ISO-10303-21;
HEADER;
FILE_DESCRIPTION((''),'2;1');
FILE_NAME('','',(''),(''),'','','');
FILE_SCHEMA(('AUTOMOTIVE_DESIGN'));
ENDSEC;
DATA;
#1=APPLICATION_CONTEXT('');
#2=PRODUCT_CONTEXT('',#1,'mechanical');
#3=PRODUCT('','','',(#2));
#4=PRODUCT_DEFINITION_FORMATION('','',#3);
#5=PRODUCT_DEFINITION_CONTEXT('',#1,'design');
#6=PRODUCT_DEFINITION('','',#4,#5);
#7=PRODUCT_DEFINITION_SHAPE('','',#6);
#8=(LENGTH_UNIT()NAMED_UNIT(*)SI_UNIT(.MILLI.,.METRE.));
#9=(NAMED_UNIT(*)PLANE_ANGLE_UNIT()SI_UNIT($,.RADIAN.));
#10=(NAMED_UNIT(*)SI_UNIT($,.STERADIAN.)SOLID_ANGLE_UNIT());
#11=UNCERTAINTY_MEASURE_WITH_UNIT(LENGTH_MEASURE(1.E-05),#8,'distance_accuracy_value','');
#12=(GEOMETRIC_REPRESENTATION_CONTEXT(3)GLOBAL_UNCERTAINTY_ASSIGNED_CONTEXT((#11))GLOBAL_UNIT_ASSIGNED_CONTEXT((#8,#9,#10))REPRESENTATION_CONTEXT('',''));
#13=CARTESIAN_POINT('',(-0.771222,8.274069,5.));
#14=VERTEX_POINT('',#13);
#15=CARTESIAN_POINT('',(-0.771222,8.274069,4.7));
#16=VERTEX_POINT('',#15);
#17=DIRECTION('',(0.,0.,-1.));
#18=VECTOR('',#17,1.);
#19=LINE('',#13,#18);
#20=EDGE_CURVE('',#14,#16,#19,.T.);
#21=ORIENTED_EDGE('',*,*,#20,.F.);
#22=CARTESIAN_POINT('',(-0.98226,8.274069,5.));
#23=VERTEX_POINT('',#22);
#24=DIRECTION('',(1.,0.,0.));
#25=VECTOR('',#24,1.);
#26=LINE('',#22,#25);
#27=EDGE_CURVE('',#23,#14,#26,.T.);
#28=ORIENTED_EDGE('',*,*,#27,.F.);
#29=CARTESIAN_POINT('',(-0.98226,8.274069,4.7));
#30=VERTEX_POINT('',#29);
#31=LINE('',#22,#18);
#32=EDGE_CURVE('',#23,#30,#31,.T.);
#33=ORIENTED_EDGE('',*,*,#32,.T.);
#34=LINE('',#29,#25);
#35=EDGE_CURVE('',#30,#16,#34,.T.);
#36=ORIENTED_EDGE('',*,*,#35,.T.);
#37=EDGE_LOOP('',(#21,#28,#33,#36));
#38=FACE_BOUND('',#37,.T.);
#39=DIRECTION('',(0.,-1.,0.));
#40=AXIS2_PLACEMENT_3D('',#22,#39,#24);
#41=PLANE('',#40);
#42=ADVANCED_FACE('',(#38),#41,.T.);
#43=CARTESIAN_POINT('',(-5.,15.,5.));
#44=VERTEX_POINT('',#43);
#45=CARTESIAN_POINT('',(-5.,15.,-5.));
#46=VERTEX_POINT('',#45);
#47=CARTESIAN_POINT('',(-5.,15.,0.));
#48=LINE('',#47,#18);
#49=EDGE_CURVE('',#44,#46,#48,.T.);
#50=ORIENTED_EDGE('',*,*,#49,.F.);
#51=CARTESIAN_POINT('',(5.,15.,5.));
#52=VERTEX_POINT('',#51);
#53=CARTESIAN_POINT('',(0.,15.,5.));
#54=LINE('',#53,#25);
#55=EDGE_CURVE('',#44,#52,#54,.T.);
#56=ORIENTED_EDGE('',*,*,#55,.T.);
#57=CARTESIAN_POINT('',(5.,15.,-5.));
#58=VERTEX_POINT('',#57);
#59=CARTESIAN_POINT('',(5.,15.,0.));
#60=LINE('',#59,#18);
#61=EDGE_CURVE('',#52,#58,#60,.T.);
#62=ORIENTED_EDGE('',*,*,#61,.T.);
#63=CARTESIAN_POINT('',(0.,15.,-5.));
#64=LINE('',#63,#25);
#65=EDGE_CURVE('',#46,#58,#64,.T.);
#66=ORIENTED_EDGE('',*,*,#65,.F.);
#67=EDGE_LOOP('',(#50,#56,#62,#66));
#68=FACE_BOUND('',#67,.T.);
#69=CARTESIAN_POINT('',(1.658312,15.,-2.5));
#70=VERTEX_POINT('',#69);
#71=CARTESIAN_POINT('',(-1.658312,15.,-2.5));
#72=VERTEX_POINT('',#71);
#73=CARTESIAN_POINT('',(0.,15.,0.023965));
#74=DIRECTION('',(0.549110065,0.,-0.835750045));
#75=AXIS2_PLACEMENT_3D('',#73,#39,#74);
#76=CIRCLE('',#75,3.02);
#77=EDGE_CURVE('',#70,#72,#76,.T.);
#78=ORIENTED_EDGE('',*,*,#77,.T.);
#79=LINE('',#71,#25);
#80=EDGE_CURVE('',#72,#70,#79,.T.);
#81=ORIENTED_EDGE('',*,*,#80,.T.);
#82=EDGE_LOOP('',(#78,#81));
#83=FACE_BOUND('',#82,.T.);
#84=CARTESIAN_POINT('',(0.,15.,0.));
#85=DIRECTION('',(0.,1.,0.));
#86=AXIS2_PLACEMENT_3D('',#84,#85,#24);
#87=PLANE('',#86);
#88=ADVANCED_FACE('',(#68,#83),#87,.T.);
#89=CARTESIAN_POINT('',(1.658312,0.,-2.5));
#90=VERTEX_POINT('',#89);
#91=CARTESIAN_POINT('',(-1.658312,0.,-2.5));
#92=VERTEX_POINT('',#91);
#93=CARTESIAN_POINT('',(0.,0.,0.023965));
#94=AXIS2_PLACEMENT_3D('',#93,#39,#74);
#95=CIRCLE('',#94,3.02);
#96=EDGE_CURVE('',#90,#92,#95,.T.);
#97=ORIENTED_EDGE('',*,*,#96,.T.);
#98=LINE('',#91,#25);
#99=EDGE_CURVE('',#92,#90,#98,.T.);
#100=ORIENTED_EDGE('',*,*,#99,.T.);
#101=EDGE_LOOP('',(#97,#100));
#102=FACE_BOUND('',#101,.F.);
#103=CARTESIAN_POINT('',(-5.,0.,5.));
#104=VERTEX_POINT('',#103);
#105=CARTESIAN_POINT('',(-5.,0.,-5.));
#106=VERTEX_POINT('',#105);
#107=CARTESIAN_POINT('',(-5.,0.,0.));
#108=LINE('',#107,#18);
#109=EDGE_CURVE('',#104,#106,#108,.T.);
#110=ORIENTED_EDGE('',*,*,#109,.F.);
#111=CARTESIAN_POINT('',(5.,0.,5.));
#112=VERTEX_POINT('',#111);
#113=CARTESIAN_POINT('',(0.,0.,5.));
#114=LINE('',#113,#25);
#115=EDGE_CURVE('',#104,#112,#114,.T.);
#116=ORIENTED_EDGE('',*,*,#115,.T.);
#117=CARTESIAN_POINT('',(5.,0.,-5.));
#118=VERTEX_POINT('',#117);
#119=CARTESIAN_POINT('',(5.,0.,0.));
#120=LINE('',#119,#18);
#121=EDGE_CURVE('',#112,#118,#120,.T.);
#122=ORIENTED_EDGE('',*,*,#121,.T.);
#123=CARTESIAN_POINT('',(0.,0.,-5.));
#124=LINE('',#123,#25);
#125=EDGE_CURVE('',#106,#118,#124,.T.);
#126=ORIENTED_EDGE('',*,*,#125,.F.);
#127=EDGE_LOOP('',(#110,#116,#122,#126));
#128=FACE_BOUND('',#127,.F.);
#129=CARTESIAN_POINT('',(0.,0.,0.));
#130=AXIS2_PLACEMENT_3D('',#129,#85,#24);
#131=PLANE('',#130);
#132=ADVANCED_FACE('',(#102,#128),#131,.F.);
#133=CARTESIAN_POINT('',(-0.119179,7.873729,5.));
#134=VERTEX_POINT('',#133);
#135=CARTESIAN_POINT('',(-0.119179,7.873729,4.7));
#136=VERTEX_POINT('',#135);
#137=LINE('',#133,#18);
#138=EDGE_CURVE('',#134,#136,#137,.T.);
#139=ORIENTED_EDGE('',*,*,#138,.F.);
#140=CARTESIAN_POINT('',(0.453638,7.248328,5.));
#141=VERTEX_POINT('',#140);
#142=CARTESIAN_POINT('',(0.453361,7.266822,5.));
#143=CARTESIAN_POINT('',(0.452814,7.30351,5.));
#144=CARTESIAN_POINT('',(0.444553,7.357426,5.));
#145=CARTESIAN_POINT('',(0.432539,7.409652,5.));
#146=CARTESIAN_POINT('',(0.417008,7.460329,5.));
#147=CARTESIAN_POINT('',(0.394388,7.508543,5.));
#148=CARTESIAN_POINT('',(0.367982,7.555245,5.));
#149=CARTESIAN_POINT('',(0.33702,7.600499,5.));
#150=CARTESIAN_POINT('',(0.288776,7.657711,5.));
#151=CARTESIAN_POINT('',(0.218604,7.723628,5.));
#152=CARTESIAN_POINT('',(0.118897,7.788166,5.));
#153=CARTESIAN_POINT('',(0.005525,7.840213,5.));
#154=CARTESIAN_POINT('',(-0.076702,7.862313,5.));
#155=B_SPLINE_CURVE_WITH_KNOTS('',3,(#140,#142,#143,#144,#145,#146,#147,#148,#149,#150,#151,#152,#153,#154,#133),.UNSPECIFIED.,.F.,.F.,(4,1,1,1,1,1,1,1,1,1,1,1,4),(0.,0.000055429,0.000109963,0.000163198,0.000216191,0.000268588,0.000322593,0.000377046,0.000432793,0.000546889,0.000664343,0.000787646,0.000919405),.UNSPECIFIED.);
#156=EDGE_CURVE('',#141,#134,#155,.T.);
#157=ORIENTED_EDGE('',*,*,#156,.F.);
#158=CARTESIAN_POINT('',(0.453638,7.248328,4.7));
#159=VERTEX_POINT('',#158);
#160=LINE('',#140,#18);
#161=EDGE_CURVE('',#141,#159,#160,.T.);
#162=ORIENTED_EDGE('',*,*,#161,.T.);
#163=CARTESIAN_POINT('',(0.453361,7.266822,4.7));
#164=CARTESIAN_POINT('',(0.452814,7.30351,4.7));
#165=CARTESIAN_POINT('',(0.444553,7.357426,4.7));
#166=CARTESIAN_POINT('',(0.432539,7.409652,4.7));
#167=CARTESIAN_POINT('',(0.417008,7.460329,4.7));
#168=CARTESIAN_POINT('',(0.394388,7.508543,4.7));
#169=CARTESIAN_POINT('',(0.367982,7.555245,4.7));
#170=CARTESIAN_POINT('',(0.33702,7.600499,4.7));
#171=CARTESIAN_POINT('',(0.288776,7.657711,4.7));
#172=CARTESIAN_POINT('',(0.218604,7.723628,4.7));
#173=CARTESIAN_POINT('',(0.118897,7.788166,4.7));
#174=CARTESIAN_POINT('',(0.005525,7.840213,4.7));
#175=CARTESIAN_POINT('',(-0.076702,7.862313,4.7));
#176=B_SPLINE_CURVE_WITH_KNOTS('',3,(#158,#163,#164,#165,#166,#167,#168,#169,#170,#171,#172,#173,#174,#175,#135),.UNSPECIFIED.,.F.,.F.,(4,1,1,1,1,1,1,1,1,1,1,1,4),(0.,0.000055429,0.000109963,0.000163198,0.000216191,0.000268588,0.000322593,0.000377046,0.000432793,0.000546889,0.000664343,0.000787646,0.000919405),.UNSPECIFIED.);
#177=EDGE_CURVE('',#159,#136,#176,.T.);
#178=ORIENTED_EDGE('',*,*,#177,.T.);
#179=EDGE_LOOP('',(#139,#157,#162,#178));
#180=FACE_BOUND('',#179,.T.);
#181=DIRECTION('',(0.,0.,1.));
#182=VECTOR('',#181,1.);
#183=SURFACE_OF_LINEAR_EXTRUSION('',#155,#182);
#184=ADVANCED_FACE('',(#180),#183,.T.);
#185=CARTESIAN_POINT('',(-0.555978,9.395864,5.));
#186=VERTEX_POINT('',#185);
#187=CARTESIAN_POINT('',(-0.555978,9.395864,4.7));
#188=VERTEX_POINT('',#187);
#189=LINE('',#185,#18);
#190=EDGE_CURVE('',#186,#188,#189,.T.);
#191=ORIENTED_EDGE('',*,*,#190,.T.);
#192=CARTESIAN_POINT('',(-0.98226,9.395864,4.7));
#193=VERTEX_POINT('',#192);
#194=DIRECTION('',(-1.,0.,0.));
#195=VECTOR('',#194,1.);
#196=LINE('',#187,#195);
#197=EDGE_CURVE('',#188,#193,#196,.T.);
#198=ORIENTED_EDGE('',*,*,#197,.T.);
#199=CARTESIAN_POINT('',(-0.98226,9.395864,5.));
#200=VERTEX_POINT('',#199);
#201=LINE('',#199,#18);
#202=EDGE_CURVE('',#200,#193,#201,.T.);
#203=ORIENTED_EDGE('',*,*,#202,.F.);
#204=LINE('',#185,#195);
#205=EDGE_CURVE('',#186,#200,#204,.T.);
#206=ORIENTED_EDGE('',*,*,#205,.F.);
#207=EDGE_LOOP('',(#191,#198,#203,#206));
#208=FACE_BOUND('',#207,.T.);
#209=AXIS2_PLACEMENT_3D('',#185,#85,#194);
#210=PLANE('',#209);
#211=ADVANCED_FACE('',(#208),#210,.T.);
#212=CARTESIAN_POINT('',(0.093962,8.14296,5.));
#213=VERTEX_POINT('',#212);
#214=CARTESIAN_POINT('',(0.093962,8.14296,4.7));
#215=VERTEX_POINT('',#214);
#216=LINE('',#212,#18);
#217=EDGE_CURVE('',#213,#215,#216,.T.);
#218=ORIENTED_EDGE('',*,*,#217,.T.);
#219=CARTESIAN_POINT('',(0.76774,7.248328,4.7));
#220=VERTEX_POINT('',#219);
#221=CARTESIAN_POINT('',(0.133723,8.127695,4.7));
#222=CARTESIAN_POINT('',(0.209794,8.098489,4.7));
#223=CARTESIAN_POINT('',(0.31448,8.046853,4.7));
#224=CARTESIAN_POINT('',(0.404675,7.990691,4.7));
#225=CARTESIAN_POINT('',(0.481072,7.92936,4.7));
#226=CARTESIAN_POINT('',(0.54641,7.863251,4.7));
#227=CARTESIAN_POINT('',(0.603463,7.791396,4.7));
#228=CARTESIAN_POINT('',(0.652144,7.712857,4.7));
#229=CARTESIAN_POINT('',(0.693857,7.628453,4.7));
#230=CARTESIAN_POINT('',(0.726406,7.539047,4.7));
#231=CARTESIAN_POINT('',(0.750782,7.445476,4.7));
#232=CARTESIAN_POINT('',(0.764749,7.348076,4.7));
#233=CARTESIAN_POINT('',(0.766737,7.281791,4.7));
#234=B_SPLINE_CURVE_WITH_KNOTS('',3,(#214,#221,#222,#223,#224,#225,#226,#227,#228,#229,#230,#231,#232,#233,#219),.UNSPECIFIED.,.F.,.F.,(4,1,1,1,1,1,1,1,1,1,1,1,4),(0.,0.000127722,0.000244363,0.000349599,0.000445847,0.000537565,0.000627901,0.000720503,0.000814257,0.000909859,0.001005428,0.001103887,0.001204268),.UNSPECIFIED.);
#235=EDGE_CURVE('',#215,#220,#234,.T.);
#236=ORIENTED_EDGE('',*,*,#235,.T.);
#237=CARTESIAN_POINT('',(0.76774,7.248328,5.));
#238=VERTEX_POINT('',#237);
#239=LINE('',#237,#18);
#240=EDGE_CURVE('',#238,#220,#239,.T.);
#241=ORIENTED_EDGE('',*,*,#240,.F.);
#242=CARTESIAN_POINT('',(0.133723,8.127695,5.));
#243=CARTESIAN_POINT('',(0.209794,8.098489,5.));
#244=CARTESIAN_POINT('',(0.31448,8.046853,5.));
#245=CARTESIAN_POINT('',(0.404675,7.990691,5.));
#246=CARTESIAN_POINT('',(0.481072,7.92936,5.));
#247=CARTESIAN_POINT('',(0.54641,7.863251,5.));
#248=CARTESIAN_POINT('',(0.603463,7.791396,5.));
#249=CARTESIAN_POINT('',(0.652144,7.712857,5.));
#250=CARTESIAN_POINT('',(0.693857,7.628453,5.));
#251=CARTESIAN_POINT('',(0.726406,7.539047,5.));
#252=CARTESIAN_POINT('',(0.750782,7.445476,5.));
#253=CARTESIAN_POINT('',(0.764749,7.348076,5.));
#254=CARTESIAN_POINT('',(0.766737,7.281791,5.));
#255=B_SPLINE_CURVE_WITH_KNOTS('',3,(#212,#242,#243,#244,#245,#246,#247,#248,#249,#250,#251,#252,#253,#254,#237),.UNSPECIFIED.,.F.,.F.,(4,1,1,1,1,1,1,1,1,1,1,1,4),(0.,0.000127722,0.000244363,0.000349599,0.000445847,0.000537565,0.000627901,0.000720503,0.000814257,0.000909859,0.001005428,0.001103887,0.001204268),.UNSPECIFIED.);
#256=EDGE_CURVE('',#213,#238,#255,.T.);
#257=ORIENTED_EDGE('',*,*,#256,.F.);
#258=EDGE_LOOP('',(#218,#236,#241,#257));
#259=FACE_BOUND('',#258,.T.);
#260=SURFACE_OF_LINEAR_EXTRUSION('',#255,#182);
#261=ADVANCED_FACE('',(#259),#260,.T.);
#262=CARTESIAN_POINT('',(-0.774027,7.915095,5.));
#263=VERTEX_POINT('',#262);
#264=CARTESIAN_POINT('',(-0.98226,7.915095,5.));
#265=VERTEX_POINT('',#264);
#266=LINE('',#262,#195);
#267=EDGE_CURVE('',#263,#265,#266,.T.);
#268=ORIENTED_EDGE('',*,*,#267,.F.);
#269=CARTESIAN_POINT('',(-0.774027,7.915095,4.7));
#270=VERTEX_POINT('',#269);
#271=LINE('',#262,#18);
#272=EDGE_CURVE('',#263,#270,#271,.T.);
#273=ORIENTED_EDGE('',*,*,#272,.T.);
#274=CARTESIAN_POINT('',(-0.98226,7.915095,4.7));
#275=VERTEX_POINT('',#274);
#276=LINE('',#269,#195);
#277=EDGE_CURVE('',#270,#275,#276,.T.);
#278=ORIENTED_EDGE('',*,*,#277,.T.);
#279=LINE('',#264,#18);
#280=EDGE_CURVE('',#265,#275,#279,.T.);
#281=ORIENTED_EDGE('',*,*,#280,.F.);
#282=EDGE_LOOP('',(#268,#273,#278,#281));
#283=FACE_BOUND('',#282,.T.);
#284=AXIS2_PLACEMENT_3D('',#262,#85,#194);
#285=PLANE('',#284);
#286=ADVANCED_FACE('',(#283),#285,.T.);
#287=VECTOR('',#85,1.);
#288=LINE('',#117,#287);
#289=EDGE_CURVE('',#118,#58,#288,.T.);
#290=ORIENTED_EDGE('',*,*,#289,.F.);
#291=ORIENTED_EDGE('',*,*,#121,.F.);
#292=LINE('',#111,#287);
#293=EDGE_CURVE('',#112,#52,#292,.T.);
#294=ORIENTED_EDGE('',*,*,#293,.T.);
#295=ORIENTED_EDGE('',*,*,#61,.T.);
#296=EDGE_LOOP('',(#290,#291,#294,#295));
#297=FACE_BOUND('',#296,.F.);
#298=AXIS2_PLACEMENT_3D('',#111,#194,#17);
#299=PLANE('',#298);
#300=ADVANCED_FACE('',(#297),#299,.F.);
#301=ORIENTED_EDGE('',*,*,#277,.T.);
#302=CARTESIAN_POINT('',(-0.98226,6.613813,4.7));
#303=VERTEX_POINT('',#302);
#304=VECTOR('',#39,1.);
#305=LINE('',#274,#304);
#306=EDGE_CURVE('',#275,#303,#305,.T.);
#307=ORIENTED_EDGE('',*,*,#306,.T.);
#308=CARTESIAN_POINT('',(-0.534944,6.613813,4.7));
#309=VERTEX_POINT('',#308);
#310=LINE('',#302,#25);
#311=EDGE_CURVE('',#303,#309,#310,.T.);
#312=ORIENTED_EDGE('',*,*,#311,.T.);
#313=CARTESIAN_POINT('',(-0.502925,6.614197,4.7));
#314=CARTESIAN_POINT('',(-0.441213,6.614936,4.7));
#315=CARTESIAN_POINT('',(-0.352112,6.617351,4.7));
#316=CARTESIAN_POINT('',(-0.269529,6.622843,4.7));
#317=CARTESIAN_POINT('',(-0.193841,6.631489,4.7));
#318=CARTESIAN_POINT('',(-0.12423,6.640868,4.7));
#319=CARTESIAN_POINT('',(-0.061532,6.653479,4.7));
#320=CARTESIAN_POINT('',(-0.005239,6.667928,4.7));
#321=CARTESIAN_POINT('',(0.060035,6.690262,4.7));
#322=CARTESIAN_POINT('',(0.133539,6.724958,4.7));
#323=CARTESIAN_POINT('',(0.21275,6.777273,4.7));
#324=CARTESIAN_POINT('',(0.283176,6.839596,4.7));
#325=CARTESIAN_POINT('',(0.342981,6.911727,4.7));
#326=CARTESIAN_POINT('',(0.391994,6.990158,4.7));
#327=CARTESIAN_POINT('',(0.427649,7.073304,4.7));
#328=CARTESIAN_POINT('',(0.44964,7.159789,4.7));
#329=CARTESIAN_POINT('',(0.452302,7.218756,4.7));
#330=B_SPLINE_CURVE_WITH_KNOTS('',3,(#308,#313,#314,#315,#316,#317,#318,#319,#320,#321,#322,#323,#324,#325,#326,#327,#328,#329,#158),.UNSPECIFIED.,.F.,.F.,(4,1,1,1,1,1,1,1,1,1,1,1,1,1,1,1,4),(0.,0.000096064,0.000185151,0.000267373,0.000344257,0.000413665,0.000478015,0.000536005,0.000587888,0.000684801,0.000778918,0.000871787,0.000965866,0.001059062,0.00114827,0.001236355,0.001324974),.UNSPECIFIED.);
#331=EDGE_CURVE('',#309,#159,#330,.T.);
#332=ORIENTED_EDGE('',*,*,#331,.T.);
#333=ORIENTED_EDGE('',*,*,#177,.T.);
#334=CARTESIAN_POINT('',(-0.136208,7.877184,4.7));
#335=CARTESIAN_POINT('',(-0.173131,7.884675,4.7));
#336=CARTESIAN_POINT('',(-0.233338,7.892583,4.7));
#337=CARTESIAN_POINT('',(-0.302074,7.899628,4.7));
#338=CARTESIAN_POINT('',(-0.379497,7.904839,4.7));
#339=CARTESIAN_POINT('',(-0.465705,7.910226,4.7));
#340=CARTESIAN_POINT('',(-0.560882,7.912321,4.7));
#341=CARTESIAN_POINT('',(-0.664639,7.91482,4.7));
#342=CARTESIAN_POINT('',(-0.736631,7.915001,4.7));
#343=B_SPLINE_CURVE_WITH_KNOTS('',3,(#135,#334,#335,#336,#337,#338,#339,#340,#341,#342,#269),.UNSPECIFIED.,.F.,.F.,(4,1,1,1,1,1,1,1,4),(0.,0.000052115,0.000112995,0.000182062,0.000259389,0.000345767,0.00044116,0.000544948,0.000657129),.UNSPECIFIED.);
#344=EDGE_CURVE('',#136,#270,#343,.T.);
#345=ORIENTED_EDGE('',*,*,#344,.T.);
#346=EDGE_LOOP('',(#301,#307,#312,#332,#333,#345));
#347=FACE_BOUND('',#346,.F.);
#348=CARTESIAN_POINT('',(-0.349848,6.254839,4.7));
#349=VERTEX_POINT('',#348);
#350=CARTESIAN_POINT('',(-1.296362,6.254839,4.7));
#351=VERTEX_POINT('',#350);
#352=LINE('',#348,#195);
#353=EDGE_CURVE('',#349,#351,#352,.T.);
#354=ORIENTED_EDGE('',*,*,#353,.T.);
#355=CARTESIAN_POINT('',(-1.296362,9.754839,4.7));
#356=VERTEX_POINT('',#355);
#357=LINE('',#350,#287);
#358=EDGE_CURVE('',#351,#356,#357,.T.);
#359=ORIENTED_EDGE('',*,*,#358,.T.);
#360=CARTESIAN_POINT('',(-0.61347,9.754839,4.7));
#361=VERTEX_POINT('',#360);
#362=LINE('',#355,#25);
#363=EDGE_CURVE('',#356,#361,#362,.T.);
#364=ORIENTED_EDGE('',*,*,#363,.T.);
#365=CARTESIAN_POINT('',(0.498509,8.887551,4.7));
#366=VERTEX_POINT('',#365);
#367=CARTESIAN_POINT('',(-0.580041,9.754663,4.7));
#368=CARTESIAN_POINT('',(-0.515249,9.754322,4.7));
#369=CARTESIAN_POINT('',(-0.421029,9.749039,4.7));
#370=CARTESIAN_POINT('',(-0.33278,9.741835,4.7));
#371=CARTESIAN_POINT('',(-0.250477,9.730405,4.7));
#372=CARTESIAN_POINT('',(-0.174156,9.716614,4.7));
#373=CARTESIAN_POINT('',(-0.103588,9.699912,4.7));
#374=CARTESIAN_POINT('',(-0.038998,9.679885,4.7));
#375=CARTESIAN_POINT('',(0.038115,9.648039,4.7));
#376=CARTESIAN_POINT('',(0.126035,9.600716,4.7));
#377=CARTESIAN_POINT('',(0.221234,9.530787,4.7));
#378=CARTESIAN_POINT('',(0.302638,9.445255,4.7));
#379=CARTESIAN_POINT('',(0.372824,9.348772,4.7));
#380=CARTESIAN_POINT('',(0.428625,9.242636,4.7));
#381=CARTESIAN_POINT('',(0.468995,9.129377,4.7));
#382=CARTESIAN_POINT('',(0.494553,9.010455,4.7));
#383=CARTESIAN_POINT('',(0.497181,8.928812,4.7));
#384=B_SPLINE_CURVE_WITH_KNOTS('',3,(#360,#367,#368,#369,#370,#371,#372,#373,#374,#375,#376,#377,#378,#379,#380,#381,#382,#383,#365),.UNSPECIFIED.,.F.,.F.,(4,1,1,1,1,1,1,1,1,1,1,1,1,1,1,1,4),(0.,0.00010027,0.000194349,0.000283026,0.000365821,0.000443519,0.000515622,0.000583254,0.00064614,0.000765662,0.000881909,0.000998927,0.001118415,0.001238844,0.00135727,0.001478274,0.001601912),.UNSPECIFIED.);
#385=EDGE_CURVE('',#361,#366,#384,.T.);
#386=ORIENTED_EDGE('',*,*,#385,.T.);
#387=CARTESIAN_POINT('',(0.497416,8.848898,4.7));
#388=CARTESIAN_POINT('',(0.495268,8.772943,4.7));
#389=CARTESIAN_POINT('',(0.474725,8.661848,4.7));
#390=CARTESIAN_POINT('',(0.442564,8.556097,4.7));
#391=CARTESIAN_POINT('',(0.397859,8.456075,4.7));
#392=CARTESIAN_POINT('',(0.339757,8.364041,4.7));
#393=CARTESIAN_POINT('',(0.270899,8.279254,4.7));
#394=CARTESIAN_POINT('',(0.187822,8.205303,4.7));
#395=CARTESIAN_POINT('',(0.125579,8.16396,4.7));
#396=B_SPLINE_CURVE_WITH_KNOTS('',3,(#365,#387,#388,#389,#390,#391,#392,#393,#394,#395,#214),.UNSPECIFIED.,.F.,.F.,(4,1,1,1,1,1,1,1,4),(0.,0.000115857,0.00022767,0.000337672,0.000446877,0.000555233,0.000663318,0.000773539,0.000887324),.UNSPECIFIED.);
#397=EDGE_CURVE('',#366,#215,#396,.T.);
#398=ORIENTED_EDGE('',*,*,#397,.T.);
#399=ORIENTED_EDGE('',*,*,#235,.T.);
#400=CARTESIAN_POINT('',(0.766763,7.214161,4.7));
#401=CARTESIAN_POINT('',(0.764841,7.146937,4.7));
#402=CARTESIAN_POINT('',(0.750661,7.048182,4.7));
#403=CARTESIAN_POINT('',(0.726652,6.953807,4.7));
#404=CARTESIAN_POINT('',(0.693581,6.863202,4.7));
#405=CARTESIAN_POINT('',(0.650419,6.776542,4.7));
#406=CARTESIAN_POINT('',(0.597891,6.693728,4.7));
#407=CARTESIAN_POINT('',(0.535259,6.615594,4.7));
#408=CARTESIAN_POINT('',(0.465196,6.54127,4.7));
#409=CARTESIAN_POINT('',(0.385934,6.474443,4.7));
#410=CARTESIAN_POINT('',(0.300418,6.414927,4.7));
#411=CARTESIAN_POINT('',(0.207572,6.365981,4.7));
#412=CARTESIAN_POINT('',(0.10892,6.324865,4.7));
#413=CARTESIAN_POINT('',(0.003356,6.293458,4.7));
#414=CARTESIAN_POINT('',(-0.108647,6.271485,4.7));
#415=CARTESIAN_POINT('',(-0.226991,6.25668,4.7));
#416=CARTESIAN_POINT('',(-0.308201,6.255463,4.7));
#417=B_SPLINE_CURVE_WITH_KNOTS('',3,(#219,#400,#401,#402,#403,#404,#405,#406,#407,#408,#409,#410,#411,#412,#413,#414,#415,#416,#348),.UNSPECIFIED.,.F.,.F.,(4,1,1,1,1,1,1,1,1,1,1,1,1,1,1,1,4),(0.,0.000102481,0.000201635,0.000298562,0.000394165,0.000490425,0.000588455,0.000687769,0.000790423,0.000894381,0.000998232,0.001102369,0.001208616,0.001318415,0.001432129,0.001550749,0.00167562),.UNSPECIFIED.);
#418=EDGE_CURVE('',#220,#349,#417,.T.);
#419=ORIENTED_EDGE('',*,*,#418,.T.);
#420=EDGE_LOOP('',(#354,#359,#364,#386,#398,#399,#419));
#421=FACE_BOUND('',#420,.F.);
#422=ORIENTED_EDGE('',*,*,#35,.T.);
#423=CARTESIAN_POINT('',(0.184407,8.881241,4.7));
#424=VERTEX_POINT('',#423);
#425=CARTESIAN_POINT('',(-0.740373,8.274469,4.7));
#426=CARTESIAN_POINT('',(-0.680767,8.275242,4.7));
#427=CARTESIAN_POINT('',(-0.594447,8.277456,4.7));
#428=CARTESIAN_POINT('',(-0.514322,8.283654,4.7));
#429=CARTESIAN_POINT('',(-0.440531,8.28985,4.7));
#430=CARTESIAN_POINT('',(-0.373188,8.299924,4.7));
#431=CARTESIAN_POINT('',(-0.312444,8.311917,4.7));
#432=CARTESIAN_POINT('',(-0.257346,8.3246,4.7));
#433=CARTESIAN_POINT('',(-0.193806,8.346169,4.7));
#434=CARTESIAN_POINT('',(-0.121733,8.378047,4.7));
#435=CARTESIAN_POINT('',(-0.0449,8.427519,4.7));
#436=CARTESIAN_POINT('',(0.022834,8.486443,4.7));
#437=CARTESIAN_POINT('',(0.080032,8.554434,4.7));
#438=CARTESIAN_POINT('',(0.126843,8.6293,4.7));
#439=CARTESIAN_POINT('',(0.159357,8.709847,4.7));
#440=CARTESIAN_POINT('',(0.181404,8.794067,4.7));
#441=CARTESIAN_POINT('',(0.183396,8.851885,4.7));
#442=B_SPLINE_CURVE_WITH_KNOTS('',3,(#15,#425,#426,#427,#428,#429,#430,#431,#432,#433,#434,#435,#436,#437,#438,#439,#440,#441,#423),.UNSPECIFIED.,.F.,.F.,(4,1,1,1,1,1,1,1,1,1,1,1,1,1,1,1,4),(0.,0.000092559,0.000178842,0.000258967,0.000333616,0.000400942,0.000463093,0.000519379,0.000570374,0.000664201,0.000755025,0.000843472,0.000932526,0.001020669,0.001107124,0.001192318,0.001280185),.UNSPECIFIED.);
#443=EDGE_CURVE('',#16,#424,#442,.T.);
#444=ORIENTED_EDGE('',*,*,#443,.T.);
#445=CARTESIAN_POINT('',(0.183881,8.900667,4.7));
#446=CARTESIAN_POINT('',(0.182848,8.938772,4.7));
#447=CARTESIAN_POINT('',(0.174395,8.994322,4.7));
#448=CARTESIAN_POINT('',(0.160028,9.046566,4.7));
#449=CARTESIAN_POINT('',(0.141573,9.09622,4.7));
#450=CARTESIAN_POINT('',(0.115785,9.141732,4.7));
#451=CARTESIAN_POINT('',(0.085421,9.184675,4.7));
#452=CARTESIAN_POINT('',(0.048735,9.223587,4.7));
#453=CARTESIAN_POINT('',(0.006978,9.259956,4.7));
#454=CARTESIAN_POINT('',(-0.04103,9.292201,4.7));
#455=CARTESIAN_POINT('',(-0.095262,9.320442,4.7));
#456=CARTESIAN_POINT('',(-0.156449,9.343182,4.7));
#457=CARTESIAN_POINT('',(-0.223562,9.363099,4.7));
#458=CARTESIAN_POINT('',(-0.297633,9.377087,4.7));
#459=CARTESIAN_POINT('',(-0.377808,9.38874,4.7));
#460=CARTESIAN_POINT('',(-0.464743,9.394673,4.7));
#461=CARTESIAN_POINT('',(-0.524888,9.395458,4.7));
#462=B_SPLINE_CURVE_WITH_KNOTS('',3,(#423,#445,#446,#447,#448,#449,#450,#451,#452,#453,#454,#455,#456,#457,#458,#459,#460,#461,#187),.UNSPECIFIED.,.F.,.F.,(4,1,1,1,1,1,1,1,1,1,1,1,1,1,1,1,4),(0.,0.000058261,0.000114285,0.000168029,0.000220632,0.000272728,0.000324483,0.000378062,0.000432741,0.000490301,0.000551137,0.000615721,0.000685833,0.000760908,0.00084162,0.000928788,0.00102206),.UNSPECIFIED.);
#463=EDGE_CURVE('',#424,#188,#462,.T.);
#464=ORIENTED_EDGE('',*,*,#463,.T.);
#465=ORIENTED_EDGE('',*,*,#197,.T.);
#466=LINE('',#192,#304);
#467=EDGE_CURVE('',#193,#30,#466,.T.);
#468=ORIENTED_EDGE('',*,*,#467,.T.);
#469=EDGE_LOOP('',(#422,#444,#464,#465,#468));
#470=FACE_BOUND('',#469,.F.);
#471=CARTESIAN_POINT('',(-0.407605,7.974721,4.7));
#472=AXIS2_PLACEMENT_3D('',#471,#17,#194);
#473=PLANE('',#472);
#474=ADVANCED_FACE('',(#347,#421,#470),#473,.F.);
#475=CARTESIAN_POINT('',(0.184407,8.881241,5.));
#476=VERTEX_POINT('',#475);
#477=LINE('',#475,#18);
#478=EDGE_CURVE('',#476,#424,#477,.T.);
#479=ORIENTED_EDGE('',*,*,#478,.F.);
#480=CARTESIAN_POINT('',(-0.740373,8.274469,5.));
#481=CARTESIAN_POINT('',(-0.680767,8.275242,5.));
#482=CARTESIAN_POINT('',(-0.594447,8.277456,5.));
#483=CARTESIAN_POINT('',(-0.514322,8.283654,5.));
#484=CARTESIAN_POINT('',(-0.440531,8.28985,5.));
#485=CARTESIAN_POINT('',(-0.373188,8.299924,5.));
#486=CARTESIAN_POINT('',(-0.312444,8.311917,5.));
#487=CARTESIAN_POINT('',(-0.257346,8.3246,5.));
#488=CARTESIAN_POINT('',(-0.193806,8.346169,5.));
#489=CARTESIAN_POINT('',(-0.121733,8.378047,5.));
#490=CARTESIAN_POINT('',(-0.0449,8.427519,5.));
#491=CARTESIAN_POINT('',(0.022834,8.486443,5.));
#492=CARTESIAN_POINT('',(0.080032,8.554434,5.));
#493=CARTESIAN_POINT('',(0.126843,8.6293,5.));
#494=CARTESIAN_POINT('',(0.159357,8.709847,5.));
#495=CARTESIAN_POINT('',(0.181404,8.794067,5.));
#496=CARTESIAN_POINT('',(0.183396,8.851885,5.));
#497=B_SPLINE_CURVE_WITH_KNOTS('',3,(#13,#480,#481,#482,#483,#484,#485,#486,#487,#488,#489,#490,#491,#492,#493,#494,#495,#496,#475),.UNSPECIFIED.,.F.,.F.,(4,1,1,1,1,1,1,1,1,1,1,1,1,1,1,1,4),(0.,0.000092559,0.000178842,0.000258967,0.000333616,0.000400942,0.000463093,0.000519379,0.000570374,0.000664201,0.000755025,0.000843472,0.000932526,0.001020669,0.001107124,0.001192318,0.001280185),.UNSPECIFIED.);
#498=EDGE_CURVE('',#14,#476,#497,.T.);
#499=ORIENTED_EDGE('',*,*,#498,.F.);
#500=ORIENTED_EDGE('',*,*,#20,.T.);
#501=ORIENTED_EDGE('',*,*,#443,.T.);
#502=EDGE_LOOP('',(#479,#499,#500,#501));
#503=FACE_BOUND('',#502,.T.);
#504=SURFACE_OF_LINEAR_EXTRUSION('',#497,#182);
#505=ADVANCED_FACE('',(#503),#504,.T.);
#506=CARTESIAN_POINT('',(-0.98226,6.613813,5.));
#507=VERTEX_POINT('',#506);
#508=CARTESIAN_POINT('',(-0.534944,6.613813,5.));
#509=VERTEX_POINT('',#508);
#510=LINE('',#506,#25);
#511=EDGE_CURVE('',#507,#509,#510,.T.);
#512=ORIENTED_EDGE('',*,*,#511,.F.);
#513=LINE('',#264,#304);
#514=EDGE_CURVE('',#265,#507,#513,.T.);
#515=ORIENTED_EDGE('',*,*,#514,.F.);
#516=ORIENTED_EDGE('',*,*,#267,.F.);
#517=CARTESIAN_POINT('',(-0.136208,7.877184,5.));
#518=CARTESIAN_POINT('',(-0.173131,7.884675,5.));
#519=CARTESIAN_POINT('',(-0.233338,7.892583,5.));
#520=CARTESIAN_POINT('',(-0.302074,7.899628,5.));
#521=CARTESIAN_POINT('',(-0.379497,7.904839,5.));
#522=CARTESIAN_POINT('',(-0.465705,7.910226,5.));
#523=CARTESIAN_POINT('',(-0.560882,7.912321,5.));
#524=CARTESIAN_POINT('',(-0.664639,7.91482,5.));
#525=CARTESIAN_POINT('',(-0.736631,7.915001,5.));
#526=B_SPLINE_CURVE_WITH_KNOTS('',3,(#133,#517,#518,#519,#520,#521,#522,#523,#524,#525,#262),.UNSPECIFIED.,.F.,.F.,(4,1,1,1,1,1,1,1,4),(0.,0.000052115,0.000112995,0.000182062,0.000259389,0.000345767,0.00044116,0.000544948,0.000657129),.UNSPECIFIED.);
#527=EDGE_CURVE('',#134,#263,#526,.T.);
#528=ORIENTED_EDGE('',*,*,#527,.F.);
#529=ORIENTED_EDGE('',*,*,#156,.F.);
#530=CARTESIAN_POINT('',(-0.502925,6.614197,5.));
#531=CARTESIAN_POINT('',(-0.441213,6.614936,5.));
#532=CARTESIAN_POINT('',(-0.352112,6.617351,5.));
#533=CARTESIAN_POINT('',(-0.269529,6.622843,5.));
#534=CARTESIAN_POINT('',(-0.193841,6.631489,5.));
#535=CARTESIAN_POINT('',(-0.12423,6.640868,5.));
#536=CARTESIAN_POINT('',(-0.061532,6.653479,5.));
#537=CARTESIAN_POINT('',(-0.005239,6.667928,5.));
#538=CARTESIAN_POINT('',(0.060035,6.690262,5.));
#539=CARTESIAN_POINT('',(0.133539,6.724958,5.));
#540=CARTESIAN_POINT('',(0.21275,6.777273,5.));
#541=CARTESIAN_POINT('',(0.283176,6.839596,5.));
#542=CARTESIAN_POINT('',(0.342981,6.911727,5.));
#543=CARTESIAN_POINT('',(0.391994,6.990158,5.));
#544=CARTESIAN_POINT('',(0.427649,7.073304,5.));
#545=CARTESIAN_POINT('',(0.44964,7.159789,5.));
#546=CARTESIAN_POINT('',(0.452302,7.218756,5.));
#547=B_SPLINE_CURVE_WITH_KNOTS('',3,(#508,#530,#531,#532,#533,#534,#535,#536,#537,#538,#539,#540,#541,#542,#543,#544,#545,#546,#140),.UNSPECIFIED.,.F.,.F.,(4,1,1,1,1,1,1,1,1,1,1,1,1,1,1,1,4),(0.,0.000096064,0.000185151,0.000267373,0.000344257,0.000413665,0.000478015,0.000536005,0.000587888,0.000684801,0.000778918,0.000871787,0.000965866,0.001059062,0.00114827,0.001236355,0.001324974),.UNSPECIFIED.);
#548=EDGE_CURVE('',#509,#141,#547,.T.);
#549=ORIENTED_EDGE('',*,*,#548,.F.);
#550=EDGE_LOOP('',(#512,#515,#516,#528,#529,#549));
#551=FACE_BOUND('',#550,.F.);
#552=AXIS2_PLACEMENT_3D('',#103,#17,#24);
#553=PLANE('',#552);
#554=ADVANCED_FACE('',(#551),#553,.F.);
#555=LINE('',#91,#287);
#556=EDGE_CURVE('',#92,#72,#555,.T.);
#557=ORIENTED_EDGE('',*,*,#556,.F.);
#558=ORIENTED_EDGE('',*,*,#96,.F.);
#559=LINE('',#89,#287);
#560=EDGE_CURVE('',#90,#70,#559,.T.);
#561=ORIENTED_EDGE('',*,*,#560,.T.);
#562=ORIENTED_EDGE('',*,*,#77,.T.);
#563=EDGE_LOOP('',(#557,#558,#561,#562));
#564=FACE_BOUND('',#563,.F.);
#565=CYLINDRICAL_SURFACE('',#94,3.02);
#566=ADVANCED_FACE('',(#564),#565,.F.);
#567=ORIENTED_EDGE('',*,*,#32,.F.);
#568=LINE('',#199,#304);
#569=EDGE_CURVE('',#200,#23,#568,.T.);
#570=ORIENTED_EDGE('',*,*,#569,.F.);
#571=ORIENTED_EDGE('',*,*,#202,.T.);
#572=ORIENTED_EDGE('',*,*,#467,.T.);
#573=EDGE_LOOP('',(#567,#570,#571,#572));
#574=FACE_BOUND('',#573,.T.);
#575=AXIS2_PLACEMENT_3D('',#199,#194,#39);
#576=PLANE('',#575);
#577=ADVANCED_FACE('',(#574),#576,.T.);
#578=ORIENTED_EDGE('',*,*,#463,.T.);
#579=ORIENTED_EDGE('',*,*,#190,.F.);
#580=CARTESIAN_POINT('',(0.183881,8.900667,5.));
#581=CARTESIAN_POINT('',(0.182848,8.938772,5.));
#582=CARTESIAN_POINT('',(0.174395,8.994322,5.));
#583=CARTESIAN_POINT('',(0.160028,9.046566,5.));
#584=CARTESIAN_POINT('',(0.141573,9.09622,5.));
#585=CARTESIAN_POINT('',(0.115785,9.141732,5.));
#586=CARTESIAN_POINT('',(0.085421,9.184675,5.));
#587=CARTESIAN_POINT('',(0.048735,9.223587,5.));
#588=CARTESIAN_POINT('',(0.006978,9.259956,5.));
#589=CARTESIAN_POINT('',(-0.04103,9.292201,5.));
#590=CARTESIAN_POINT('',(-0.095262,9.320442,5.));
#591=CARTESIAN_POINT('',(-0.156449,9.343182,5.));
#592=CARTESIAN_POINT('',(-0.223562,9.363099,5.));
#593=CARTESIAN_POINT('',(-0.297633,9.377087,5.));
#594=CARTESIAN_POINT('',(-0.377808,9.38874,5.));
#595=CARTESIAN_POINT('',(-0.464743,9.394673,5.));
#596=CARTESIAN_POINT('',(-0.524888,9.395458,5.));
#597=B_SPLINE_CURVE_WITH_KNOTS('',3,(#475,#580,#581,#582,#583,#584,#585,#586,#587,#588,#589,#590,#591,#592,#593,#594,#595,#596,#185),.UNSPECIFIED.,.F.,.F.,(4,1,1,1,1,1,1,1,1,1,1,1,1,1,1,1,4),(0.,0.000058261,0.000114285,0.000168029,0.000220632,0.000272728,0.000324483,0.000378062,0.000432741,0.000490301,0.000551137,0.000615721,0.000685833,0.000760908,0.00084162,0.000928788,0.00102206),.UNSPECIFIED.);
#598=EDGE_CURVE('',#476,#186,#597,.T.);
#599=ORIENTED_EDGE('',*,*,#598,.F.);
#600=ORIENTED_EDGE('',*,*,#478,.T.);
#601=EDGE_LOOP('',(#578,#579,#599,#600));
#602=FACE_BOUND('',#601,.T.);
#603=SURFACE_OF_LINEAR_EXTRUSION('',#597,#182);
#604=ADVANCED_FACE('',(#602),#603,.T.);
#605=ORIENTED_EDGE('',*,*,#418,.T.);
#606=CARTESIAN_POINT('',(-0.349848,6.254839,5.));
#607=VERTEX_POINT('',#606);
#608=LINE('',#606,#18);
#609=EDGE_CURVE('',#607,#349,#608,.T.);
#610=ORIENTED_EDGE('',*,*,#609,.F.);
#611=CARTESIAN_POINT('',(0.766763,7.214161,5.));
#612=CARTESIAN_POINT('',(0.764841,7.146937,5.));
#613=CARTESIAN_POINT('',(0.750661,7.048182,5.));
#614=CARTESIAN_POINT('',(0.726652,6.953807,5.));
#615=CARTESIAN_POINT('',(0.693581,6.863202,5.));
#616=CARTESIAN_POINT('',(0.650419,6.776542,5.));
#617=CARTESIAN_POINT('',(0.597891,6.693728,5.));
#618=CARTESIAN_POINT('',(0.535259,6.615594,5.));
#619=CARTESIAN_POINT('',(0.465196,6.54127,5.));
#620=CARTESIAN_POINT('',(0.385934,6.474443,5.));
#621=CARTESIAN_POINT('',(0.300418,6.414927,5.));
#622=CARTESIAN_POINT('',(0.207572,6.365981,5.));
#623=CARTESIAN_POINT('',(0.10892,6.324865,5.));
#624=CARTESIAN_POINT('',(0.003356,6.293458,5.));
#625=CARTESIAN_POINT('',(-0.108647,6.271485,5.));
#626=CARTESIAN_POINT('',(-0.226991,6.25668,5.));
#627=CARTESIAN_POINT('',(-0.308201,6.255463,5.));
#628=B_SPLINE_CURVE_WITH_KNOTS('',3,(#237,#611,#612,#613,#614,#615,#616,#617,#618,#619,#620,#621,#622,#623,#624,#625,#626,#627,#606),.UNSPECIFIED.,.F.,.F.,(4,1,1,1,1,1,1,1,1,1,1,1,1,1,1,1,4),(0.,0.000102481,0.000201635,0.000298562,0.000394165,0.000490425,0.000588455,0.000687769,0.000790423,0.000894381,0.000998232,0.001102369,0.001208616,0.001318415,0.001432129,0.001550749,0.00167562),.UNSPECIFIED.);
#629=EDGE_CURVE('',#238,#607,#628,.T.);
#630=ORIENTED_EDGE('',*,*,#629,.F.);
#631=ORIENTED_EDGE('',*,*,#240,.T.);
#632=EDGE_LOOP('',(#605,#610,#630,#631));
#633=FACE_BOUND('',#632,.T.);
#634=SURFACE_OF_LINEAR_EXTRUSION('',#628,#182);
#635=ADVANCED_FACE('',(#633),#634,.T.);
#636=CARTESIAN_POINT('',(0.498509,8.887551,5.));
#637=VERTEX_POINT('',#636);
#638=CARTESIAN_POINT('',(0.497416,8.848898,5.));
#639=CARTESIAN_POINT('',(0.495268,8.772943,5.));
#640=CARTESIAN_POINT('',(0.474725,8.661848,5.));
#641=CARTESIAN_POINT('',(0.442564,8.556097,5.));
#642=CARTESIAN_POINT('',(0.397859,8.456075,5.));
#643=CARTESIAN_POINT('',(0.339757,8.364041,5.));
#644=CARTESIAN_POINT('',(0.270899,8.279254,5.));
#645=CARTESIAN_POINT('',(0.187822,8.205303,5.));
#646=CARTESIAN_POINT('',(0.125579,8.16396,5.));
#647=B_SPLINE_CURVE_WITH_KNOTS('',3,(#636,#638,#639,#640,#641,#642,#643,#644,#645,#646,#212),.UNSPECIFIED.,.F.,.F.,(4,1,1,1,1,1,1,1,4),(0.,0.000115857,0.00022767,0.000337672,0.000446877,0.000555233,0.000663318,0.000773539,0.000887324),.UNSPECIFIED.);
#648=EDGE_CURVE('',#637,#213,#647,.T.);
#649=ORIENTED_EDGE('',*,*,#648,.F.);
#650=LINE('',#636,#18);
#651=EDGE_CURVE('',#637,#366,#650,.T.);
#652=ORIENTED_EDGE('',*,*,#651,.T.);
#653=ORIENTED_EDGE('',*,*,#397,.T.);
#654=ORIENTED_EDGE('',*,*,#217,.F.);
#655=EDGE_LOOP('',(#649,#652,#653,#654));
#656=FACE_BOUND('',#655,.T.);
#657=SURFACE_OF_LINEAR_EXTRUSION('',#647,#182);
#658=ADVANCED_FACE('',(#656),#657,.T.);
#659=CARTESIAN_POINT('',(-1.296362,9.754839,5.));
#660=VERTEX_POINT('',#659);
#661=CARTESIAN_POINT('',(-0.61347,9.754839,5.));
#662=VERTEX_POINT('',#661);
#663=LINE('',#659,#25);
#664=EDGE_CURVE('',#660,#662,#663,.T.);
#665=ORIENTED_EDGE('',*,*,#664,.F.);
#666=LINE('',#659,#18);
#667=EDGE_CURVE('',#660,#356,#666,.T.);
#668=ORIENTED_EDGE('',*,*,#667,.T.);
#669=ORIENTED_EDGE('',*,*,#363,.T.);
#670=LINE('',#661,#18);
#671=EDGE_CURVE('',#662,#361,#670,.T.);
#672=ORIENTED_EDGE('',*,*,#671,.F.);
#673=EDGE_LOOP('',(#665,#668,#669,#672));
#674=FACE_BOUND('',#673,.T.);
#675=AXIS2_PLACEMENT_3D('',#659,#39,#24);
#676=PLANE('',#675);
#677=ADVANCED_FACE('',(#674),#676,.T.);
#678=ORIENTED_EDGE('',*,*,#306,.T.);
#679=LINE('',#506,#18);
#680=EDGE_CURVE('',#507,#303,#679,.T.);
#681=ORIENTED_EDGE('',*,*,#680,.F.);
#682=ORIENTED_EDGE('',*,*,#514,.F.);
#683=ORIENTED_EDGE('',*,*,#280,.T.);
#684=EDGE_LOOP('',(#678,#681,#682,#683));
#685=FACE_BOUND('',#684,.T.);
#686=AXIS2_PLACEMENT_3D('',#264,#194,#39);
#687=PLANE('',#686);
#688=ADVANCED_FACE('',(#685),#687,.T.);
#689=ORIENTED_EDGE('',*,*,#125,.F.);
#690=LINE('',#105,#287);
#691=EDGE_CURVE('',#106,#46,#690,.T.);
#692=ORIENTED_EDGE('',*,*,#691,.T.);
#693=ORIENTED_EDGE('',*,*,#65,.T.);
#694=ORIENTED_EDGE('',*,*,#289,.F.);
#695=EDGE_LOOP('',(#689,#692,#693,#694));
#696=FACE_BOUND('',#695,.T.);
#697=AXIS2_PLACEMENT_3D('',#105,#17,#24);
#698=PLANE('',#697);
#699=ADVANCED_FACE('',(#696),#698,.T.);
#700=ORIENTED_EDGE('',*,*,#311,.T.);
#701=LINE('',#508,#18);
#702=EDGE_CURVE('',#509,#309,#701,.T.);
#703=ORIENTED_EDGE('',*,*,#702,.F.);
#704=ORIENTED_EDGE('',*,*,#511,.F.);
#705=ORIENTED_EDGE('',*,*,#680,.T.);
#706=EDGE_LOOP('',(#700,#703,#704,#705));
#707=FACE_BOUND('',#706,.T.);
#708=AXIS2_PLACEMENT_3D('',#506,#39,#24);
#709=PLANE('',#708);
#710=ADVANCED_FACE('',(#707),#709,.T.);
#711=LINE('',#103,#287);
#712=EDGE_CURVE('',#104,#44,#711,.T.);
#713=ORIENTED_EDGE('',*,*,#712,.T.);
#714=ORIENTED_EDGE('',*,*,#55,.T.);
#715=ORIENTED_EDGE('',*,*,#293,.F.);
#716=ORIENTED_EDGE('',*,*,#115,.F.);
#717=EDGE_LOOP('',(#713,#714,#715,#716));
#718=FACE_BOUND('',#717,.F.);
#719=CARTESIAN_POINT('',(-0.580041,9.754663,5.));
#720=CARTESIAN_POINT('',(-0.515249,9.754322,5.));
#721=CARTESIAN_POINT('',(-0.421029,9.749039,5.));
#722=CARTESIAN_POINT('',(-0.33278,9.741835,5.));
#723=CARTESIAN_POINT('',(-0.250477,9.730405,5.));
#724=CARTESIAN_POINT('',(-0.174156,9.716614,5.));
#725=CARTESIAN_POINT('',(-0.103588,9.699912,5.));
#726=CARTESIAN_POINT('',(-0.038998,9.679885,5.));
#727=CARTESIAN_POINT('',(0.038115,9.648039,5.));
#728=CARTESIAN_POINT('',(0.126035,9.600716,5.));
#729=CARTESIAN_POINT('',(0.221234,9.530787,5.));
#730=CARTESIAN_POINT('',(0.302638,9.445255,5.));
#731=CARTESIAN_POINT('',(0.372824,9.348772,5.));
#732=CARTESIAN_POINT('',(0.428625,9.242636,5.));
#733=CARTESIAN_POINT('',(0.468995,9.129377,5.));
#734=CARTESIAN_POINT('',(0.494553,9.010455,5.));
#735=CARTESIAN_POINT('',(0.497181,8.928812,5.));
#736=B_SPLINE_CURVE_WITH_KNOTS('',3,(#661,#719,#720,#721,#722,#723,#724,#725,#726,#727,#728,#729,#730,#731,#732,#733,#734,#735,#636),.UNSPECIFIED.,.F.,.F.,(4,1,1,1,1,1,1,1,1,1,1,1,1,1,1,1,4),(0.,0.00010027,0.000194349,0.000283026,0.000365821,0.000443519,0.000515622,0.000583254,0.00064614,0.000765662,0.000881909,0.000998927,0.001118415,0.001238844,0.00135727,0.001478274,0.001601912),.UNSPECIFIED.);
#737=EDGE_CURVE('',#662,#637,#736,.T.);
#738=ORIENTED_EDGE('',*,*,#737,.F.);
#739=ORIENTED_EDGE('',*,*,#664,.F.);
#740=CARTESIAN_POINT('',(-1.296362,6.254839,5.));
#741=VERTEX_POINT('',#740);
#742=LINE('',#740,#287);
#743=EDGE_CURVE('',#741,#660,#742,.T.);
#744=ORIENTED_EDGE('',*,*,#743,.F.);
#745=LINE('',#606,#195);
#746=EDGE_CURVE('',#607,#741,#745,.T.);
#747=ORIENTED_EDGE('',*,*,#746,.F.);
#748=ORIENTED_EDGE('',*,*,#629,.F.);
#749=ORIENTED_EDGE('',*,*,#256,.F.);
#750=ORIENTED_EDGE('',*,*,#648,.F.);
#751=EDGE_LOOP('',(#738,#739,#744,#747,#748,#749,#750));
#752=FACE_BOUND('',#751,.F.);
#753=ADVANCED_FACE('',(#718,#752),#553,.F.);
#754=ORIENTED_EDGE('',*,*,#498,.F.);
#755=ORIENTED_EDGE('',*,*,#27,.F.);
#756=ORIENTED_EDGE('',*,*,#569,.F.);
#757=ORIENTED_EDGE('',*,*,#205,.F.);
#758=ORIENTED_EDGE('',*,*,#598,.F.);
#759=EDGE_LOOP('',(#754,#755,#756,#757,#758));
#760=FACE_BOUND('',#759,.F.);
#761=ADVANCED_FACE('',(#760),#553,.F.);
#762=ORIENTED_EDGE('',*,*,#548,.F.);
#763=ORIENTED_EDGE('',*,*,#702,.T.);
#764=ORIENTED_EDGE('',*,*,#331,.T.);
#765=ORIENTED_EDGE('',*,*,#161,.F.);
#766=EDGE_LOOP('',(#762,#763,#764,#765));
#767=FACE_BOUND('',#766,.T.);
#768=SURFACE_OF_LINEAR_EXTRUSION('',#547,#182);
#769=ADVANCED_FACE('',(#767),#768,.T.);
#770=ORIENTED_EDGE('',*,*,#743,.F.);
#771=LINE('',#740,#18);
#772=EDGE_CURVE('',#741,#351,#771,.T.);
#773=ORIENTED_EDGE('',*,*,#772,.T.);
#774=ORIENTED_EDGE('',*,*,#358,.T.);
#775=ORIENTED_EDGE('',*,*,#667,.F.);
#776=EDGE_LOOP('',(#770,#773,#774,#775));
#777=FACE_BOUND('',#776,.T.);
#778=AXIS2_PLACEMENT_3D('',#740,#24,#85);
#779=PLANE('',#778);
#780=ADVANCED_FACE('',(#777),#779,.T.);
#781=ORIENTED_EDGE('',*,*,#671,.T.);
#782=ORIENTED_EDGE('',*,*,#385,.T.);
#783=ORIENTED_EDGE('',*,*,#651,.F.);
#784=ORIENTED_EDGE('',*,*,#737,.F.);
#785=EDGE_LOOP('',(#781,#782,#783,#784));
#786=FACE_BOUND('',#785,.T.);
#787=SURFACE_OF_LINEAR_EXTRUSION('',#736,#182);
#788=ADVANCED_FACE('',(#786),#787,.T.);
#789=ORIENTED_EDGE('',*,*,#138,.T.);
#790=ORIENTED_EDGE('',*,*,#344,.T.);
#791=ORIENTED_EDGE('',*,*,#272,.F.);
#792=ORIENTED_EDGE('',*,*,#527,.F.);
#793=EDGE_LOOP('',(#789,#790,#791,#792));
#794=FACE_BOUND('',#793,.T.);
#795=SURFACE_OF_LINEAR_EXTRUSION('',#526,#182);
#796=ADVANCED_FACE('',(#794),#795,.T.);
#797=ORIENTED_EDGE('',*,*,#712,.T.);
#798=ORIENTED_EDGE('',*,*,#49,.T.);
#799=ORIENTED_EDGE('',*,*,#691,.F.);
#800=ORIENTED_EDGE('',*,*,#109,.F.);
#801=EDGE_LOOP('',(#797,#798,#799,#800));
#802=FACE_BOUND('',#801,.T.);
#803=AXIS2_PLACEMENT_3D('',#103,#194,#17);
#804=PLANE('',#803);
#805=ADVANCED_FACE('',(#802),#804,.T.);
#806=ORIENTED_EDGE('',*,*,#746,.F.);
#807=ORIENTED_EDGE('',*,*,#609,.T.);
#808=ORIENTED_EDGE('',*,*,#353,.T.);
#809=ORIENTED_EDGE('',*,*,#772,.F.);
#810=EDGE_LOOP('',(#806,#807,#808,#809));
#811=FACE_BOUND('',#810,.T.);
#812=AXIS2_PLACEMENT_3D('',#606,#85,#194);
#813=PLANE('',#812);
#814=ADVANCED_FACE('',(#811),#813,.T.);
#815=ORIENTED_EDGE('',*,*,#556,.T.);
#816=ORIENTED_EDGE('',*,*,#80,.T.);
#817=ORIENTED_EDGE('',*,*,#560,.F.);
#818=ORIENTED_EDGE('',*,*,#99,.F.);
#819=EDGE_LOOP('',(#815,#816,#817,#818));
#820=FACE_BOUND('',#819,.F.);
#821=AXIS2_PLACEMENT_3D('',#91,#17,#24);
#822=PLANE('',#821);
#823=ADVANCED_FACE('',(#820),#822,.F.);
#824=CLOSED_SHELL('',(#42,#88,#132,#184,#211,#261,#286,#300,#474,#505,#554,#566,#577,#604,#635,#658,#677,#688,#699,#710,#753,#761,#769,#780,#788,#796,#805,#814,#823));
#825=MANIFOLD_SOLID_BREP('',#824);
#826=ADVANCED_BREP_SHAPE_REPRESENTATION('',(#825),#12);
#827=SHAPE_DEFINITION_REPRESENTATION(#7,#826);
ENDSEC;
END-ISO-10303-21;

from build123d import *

# Parameters (mm, degrees)
SKETCH1_W           = 10
SKETCH1_H           = 10
BOSS_EXTRUDE1_DEPTH = 15
CUT_EXTRUDE1_DEPTH  = 0.3


with BuildPart() as part:
    # Sketch1 → Boss-Extrude1 (new body)
    with BuildSketch(Plane(origin=(0, 0, 0), x_dir=(1, 0, 0), z_dir=(0, 1, 0))):
        Rectangle(SKETCH1_W, SKETCH1_H)
        with BuildLine():
            Line((-1.658312395, 2.5), (1.658312395, 2.5))
            ThreePointArc((1.658312395, 2.5), (0, -3.043965134), (-1.658312395, 2.5))
        make_face(mode=Mode.SUBTRACT)
    extrude(amount=BOSS_EXTRUDE1_DEPTH)

    # Sketch2 → Cut-Extrude1 (cut)
    with BuildSketch(Plane.XY.offset(5)):
        with BuildLine():
            Line((-1.296362428, 9.754838654), (-0.6134698, 9.754838654))
            add(Edge.make_bspline(
                [(-0.6134698, 9.754838654), (-0.580041322, 9.754662904), (-0.515248611, 9.754322256), (-0.42102917, 9.749039125), (-0.332780359, 9.741835455), (-0.250476587, 9.730405362), (-0.174155884, 9.716613585), (-0.103588247, 9.699911769), (-0.038998075, 9.679885155), (0.038114662, 9.648038874), (0.126035323, 9.600715706), (0.221233715, 9.530787141), (0.302637955, 9.445254678), (0.372824272, 9.348772022), (0.428625391, 9.24263625), (0.468994689, 9.129377062), (0.494552564, 9.01045532), (0.497180998, 8.928812142), (0.498509367, 8.887550994)],
                knots=[0, 0, 0, 0, 0.00010027, 0.000194349, 0.000283026, 0.000365821, 0.000443519, 0.000515622, 0.000583254, 0.00064614, 0.000765662, 0.000881909, 0.000998927, 0.001118415, 0.001238844, 0.00135727, 0.001478274, 0.001601912, 0.001601912, 0.001601912, 0.001601912], degree=3))
            add(Edge.make_bspline(
                [(0.498509367, 8.887550994), (0.497416148, 8.848898438), (0.495267871, 8.772942521), (0.474725112, 8.661848412), (0.442564443, 8.556097193), (0.397859194, 8.456074808), (0.339757198, 8.364041195), (0.270898879, 8.279253929), (0.187822077, 8.205302872), (0.125578837, 8.163959969), (0.093962091, 8.142959648)],
                knots=[0, 0, 0, 0, 0.000115857, 0.00022767, 0.000337672, 0.000446877, 0.000555233, 0.000663318, 0.000773539, 0.000887324, 0.000887324, 0.000887324, 0.000887324], degree=3))
            add(Edge.make_bspline(
                [(0.093962091, 8.142959648), (0.133722519, 8.127694649), (0.209794066, 8.098488925), (0.314480078, 8.046853461), (0.404674923, 7.99069135), (0.481072069, 7.9293595), (0.546409724, 7.863250689), (0.603462666, 7.791395575), (0.65214404, 7.712856817), (0.693856964, 7.628453282), (0.72640572, 7.539046813), (0.750781624, 7.445476037), (0.764749073, 7.348076482), (0.766736714, 7.281791103), (0.767740136, 7.248328238)],
                knots=[0, 0, 0, 0, 0.000127722, 0.000244363, 0.000349599, 0.000445847, 0.000537565, 0.000627901, 0.000720503, 0.000814257, 0.000909859, 0.001005428, 0.001103887, 0.001204268, 0.001204268, 0.001204268, 0.001204268], degree=3))
            add(Edge.make_bspline(
                [(0.767740136, 7.248328238), (0.76676329, 7.214161366), (0.764841318, 7.146937088), (0.750661346, 7.048181953), (0.726652239, 6.953807006), (0.693581093, 6.863201824), (0.650418778, 6.776541689), (0.597890814, 6.693728425), (0.53525925, 6.615594095), (0.465196381, 6.541270471), (0.385934236, 6.474442684), (0.300418481, 6.414926977), (0.207572161, 6.365980915), (0.108920167, 6.324864894), (0.003355851, 6.293457695), (-0.108646757, 6.271485121), (-0.226991058, 6.256680084), (-0.308200809, 6.25546288), (-0.349848005, 6.254838654)],
                knots=[0, 0, 0, 0, 0.000102481, 0.000201635, 0.000298562, 0.000394165, 0.000490425, 0.000588455, 0.000687769, 0.000790423, 0.000894381, 0.000998232, 0.001102369, 0.001208616, 0.001318415, 0.001432129, 0.001550749, 0.00167562, 0.00167562, 0.00167562, 0.00167562], degree=3))
            Line((-0.349848005, 6.254838654), (-1.296362428, 6.254838654))
            Line((-1.296362428, 6.254838654), (-1.296362428, 9.754838654))
        make_face()
        with BuildLine():
            Line((-0.982259864, 9.395864295), (-0.982259864, 8.274069424))
            Line((-0.982259864, 8.274069424), (-0.771222204, 8.274069424))
            add(Edge.make_bspline(
                [(-0.771222204, 8.274069424), (-0.740373408, 8.274469347), (-0.680767249, 8.275242079), (-0.594447353, 8.277455596), (-0.514322334, 8.28365364), (-0.440530501, 8.289849902), (-0.373188057, 8.29992449), (-0.312444196, 8.311916612), (-0.257345599, 8.324599518), (-0.193806053, 8.346169004), (-0.121733105, 8.37804668), (-0.044900001, 8.427518516), (0.022834469, 8.486442869), (0.080031656, 8.554433831), (0.126843127, 8.629300017), (0.159356842, 8.709846897), (0.181404126, 8.794067029), (0.183395658, 8.851885282), (0.184406803, 8.881240898)],
                knots=[0, 0, 0, 0, 9.2559e-05, 0.000178842, 0.000258967, 0.000333616, 0.000400942, 0.000463093, 0.000519379, 0.000570374, 0.000664201, 0.000755025, 0.000843472, 0.000932526, 0.001020669, 0.001107124, 0.001192318, 0.001280185, 0.001280185, 0.001280185, 0.001280185], degree=3))
            add(Edge.make_bspline(
                [(0.184406803, 8.881240898), (0.183880622, 8.90066667), (0.182848462, 8.938772442), (0.17439516, 8.994321796), (0.160027585, 9.046565548), (0.141573292, 9.096219659), (0.115784603, 9.141731509), (0.08542114, 9.184674705), (0.04873545, 9.223586823), (0.006978137, 9.259956321), (-0.041030486, 9.292200849), (-0.095261777, 9.320441612), (-0.156449455, 9.343182389), (-0.223562309, 9.363098541), (-0.297633397, 9.377086835), (-0.37780795, 9.388740223), (-0.464742669, 9.394672965), (-0.524887772, 9.395458328), (-0.555977813, 9.395864295)],
                knots=[0, 0, 0, 0, 5.8261e-05, 0.000114285, 0.000168029, 0.000220632, 0.000272728, 0.000324483, 0.000378062, 0.000432741, 0.000490301, 0.000551137, 0.000615721, 0.000685833, 0.000760908, 0.00084162, 0.000928788, 0.00102206, 0.00102206, 0.00102206, 0.00102206], degree=3))
            Line((-0.555977813, 9.395864295), (-0.982259864, 9.395864295))
        make_face(mode=Mode.SUBTRACT)
        with BuildLine():
            Line((-0.982259864, 7.915095065), (-0.982259864, 6.613813013))
            Line((-0.982259864, 6.613813013), (-0.534944159, 6.613813013))
            add(Edge.make_bspline(
                [(-0.534944159, 6.613813013), (-0.502925233, 6.614196761), (-0.441212974, 6.614936383), (-0.352111744, 6.617350938), (-0.269528641, 6.622843214), (-0.193840505, 6.631489063), (-0.124230052, 6.640867512), (-0.061532349, 6.653478793), (-0.005239156, 6.667927754), (0.060035152, 6.690261926), (0.13353866, 6.724958397), (0.212749517, 6.777272623), (0.283175735, 6.839595931), (0.342980994, 6.911726845), (0.391993983, 6.990158172), (0.427649438, 7.073303522), (0.449640294, 7.15978905), (0.452302464, 7.218755762), (0.453637572, 7.248328238)],
                knots=[0, 0, 0, 0, 9.6064e-05, 0.000185151, 0.000267373, 0.000344257, 0.000413665, 0.000478015, 0.000536005, 0.000587888, 0.000684801, 0.000778918, 0.000871787, 0.000965866, 0.001059062, 0.00114827, 0.001236355, 0.001324974, 0.001324974, 0.001324974, 0.001324974], degree=3))
            add(Edge.make_bspline(
                [(0.453637572, 7.248328238), (0.453361467, 7.266821578), (0.452813712, 7.30350996), (0.444553097, 7.357425779), (0.432539228, 7.409651653), (0.417007794, 7.460329393), (0.394388327, 7.508542769), (0.367981782, 7.555245329), (0.33702038, 7.600498808), (0.288776214, 7.657711062), (0.21860423, 7.723628075), (0.118897454, 7.788165577), (0.005525156, 7.840213384), (-0.076702337, 7.86231286), (-0.119178935, 7.873728879)],
                knots=[0, 0, 0, 0, 5.5429e-05, 0.000109963, 0.000163198, 0.000216191, 0.000268588, 0.000322593, 0.000377046, 0.000432793, 0.000546889, 0.000664343, 0.000787646, 0.000919405, 0.000919405, 0.000919405, 0.000919405], degree=3))
            add(Edge.make_bspline(
                [(-0.119178935, 7.873728879), (-0.13620803, 7.877183963), (-0.173130623, 7.884675297), (-0.233338203, 7.892583001), (-0.302074072, 7.899628061), (-0.379496949, 7.904839218), (-0.46570479, 7.910225762), (-0.560881709, 7.912320583), (-0.664639024, 7.914819843), (-0.736631396, 7.915000977), (-0.774026691, 7.915095065)],
                knots=[0, 0, 0, 0, 5.2115e-05, 0.000112995, 0.000182062, 0.000259389, 0.000345767, 0.00044116, 0.000544948, 0.000657129, 0.000657129, 0.000657129, 0.000657129], degree=3))
            Line((-0.774026691, 7.915095065), (-0.982259864, 7.915095065))
        make_face(mode=Mode.SUBTRACT)
    extrude(amount=-CUT_EXTRUDE1_DEPTH, mode=Mode.SUBTRACT)


solid = part.part
